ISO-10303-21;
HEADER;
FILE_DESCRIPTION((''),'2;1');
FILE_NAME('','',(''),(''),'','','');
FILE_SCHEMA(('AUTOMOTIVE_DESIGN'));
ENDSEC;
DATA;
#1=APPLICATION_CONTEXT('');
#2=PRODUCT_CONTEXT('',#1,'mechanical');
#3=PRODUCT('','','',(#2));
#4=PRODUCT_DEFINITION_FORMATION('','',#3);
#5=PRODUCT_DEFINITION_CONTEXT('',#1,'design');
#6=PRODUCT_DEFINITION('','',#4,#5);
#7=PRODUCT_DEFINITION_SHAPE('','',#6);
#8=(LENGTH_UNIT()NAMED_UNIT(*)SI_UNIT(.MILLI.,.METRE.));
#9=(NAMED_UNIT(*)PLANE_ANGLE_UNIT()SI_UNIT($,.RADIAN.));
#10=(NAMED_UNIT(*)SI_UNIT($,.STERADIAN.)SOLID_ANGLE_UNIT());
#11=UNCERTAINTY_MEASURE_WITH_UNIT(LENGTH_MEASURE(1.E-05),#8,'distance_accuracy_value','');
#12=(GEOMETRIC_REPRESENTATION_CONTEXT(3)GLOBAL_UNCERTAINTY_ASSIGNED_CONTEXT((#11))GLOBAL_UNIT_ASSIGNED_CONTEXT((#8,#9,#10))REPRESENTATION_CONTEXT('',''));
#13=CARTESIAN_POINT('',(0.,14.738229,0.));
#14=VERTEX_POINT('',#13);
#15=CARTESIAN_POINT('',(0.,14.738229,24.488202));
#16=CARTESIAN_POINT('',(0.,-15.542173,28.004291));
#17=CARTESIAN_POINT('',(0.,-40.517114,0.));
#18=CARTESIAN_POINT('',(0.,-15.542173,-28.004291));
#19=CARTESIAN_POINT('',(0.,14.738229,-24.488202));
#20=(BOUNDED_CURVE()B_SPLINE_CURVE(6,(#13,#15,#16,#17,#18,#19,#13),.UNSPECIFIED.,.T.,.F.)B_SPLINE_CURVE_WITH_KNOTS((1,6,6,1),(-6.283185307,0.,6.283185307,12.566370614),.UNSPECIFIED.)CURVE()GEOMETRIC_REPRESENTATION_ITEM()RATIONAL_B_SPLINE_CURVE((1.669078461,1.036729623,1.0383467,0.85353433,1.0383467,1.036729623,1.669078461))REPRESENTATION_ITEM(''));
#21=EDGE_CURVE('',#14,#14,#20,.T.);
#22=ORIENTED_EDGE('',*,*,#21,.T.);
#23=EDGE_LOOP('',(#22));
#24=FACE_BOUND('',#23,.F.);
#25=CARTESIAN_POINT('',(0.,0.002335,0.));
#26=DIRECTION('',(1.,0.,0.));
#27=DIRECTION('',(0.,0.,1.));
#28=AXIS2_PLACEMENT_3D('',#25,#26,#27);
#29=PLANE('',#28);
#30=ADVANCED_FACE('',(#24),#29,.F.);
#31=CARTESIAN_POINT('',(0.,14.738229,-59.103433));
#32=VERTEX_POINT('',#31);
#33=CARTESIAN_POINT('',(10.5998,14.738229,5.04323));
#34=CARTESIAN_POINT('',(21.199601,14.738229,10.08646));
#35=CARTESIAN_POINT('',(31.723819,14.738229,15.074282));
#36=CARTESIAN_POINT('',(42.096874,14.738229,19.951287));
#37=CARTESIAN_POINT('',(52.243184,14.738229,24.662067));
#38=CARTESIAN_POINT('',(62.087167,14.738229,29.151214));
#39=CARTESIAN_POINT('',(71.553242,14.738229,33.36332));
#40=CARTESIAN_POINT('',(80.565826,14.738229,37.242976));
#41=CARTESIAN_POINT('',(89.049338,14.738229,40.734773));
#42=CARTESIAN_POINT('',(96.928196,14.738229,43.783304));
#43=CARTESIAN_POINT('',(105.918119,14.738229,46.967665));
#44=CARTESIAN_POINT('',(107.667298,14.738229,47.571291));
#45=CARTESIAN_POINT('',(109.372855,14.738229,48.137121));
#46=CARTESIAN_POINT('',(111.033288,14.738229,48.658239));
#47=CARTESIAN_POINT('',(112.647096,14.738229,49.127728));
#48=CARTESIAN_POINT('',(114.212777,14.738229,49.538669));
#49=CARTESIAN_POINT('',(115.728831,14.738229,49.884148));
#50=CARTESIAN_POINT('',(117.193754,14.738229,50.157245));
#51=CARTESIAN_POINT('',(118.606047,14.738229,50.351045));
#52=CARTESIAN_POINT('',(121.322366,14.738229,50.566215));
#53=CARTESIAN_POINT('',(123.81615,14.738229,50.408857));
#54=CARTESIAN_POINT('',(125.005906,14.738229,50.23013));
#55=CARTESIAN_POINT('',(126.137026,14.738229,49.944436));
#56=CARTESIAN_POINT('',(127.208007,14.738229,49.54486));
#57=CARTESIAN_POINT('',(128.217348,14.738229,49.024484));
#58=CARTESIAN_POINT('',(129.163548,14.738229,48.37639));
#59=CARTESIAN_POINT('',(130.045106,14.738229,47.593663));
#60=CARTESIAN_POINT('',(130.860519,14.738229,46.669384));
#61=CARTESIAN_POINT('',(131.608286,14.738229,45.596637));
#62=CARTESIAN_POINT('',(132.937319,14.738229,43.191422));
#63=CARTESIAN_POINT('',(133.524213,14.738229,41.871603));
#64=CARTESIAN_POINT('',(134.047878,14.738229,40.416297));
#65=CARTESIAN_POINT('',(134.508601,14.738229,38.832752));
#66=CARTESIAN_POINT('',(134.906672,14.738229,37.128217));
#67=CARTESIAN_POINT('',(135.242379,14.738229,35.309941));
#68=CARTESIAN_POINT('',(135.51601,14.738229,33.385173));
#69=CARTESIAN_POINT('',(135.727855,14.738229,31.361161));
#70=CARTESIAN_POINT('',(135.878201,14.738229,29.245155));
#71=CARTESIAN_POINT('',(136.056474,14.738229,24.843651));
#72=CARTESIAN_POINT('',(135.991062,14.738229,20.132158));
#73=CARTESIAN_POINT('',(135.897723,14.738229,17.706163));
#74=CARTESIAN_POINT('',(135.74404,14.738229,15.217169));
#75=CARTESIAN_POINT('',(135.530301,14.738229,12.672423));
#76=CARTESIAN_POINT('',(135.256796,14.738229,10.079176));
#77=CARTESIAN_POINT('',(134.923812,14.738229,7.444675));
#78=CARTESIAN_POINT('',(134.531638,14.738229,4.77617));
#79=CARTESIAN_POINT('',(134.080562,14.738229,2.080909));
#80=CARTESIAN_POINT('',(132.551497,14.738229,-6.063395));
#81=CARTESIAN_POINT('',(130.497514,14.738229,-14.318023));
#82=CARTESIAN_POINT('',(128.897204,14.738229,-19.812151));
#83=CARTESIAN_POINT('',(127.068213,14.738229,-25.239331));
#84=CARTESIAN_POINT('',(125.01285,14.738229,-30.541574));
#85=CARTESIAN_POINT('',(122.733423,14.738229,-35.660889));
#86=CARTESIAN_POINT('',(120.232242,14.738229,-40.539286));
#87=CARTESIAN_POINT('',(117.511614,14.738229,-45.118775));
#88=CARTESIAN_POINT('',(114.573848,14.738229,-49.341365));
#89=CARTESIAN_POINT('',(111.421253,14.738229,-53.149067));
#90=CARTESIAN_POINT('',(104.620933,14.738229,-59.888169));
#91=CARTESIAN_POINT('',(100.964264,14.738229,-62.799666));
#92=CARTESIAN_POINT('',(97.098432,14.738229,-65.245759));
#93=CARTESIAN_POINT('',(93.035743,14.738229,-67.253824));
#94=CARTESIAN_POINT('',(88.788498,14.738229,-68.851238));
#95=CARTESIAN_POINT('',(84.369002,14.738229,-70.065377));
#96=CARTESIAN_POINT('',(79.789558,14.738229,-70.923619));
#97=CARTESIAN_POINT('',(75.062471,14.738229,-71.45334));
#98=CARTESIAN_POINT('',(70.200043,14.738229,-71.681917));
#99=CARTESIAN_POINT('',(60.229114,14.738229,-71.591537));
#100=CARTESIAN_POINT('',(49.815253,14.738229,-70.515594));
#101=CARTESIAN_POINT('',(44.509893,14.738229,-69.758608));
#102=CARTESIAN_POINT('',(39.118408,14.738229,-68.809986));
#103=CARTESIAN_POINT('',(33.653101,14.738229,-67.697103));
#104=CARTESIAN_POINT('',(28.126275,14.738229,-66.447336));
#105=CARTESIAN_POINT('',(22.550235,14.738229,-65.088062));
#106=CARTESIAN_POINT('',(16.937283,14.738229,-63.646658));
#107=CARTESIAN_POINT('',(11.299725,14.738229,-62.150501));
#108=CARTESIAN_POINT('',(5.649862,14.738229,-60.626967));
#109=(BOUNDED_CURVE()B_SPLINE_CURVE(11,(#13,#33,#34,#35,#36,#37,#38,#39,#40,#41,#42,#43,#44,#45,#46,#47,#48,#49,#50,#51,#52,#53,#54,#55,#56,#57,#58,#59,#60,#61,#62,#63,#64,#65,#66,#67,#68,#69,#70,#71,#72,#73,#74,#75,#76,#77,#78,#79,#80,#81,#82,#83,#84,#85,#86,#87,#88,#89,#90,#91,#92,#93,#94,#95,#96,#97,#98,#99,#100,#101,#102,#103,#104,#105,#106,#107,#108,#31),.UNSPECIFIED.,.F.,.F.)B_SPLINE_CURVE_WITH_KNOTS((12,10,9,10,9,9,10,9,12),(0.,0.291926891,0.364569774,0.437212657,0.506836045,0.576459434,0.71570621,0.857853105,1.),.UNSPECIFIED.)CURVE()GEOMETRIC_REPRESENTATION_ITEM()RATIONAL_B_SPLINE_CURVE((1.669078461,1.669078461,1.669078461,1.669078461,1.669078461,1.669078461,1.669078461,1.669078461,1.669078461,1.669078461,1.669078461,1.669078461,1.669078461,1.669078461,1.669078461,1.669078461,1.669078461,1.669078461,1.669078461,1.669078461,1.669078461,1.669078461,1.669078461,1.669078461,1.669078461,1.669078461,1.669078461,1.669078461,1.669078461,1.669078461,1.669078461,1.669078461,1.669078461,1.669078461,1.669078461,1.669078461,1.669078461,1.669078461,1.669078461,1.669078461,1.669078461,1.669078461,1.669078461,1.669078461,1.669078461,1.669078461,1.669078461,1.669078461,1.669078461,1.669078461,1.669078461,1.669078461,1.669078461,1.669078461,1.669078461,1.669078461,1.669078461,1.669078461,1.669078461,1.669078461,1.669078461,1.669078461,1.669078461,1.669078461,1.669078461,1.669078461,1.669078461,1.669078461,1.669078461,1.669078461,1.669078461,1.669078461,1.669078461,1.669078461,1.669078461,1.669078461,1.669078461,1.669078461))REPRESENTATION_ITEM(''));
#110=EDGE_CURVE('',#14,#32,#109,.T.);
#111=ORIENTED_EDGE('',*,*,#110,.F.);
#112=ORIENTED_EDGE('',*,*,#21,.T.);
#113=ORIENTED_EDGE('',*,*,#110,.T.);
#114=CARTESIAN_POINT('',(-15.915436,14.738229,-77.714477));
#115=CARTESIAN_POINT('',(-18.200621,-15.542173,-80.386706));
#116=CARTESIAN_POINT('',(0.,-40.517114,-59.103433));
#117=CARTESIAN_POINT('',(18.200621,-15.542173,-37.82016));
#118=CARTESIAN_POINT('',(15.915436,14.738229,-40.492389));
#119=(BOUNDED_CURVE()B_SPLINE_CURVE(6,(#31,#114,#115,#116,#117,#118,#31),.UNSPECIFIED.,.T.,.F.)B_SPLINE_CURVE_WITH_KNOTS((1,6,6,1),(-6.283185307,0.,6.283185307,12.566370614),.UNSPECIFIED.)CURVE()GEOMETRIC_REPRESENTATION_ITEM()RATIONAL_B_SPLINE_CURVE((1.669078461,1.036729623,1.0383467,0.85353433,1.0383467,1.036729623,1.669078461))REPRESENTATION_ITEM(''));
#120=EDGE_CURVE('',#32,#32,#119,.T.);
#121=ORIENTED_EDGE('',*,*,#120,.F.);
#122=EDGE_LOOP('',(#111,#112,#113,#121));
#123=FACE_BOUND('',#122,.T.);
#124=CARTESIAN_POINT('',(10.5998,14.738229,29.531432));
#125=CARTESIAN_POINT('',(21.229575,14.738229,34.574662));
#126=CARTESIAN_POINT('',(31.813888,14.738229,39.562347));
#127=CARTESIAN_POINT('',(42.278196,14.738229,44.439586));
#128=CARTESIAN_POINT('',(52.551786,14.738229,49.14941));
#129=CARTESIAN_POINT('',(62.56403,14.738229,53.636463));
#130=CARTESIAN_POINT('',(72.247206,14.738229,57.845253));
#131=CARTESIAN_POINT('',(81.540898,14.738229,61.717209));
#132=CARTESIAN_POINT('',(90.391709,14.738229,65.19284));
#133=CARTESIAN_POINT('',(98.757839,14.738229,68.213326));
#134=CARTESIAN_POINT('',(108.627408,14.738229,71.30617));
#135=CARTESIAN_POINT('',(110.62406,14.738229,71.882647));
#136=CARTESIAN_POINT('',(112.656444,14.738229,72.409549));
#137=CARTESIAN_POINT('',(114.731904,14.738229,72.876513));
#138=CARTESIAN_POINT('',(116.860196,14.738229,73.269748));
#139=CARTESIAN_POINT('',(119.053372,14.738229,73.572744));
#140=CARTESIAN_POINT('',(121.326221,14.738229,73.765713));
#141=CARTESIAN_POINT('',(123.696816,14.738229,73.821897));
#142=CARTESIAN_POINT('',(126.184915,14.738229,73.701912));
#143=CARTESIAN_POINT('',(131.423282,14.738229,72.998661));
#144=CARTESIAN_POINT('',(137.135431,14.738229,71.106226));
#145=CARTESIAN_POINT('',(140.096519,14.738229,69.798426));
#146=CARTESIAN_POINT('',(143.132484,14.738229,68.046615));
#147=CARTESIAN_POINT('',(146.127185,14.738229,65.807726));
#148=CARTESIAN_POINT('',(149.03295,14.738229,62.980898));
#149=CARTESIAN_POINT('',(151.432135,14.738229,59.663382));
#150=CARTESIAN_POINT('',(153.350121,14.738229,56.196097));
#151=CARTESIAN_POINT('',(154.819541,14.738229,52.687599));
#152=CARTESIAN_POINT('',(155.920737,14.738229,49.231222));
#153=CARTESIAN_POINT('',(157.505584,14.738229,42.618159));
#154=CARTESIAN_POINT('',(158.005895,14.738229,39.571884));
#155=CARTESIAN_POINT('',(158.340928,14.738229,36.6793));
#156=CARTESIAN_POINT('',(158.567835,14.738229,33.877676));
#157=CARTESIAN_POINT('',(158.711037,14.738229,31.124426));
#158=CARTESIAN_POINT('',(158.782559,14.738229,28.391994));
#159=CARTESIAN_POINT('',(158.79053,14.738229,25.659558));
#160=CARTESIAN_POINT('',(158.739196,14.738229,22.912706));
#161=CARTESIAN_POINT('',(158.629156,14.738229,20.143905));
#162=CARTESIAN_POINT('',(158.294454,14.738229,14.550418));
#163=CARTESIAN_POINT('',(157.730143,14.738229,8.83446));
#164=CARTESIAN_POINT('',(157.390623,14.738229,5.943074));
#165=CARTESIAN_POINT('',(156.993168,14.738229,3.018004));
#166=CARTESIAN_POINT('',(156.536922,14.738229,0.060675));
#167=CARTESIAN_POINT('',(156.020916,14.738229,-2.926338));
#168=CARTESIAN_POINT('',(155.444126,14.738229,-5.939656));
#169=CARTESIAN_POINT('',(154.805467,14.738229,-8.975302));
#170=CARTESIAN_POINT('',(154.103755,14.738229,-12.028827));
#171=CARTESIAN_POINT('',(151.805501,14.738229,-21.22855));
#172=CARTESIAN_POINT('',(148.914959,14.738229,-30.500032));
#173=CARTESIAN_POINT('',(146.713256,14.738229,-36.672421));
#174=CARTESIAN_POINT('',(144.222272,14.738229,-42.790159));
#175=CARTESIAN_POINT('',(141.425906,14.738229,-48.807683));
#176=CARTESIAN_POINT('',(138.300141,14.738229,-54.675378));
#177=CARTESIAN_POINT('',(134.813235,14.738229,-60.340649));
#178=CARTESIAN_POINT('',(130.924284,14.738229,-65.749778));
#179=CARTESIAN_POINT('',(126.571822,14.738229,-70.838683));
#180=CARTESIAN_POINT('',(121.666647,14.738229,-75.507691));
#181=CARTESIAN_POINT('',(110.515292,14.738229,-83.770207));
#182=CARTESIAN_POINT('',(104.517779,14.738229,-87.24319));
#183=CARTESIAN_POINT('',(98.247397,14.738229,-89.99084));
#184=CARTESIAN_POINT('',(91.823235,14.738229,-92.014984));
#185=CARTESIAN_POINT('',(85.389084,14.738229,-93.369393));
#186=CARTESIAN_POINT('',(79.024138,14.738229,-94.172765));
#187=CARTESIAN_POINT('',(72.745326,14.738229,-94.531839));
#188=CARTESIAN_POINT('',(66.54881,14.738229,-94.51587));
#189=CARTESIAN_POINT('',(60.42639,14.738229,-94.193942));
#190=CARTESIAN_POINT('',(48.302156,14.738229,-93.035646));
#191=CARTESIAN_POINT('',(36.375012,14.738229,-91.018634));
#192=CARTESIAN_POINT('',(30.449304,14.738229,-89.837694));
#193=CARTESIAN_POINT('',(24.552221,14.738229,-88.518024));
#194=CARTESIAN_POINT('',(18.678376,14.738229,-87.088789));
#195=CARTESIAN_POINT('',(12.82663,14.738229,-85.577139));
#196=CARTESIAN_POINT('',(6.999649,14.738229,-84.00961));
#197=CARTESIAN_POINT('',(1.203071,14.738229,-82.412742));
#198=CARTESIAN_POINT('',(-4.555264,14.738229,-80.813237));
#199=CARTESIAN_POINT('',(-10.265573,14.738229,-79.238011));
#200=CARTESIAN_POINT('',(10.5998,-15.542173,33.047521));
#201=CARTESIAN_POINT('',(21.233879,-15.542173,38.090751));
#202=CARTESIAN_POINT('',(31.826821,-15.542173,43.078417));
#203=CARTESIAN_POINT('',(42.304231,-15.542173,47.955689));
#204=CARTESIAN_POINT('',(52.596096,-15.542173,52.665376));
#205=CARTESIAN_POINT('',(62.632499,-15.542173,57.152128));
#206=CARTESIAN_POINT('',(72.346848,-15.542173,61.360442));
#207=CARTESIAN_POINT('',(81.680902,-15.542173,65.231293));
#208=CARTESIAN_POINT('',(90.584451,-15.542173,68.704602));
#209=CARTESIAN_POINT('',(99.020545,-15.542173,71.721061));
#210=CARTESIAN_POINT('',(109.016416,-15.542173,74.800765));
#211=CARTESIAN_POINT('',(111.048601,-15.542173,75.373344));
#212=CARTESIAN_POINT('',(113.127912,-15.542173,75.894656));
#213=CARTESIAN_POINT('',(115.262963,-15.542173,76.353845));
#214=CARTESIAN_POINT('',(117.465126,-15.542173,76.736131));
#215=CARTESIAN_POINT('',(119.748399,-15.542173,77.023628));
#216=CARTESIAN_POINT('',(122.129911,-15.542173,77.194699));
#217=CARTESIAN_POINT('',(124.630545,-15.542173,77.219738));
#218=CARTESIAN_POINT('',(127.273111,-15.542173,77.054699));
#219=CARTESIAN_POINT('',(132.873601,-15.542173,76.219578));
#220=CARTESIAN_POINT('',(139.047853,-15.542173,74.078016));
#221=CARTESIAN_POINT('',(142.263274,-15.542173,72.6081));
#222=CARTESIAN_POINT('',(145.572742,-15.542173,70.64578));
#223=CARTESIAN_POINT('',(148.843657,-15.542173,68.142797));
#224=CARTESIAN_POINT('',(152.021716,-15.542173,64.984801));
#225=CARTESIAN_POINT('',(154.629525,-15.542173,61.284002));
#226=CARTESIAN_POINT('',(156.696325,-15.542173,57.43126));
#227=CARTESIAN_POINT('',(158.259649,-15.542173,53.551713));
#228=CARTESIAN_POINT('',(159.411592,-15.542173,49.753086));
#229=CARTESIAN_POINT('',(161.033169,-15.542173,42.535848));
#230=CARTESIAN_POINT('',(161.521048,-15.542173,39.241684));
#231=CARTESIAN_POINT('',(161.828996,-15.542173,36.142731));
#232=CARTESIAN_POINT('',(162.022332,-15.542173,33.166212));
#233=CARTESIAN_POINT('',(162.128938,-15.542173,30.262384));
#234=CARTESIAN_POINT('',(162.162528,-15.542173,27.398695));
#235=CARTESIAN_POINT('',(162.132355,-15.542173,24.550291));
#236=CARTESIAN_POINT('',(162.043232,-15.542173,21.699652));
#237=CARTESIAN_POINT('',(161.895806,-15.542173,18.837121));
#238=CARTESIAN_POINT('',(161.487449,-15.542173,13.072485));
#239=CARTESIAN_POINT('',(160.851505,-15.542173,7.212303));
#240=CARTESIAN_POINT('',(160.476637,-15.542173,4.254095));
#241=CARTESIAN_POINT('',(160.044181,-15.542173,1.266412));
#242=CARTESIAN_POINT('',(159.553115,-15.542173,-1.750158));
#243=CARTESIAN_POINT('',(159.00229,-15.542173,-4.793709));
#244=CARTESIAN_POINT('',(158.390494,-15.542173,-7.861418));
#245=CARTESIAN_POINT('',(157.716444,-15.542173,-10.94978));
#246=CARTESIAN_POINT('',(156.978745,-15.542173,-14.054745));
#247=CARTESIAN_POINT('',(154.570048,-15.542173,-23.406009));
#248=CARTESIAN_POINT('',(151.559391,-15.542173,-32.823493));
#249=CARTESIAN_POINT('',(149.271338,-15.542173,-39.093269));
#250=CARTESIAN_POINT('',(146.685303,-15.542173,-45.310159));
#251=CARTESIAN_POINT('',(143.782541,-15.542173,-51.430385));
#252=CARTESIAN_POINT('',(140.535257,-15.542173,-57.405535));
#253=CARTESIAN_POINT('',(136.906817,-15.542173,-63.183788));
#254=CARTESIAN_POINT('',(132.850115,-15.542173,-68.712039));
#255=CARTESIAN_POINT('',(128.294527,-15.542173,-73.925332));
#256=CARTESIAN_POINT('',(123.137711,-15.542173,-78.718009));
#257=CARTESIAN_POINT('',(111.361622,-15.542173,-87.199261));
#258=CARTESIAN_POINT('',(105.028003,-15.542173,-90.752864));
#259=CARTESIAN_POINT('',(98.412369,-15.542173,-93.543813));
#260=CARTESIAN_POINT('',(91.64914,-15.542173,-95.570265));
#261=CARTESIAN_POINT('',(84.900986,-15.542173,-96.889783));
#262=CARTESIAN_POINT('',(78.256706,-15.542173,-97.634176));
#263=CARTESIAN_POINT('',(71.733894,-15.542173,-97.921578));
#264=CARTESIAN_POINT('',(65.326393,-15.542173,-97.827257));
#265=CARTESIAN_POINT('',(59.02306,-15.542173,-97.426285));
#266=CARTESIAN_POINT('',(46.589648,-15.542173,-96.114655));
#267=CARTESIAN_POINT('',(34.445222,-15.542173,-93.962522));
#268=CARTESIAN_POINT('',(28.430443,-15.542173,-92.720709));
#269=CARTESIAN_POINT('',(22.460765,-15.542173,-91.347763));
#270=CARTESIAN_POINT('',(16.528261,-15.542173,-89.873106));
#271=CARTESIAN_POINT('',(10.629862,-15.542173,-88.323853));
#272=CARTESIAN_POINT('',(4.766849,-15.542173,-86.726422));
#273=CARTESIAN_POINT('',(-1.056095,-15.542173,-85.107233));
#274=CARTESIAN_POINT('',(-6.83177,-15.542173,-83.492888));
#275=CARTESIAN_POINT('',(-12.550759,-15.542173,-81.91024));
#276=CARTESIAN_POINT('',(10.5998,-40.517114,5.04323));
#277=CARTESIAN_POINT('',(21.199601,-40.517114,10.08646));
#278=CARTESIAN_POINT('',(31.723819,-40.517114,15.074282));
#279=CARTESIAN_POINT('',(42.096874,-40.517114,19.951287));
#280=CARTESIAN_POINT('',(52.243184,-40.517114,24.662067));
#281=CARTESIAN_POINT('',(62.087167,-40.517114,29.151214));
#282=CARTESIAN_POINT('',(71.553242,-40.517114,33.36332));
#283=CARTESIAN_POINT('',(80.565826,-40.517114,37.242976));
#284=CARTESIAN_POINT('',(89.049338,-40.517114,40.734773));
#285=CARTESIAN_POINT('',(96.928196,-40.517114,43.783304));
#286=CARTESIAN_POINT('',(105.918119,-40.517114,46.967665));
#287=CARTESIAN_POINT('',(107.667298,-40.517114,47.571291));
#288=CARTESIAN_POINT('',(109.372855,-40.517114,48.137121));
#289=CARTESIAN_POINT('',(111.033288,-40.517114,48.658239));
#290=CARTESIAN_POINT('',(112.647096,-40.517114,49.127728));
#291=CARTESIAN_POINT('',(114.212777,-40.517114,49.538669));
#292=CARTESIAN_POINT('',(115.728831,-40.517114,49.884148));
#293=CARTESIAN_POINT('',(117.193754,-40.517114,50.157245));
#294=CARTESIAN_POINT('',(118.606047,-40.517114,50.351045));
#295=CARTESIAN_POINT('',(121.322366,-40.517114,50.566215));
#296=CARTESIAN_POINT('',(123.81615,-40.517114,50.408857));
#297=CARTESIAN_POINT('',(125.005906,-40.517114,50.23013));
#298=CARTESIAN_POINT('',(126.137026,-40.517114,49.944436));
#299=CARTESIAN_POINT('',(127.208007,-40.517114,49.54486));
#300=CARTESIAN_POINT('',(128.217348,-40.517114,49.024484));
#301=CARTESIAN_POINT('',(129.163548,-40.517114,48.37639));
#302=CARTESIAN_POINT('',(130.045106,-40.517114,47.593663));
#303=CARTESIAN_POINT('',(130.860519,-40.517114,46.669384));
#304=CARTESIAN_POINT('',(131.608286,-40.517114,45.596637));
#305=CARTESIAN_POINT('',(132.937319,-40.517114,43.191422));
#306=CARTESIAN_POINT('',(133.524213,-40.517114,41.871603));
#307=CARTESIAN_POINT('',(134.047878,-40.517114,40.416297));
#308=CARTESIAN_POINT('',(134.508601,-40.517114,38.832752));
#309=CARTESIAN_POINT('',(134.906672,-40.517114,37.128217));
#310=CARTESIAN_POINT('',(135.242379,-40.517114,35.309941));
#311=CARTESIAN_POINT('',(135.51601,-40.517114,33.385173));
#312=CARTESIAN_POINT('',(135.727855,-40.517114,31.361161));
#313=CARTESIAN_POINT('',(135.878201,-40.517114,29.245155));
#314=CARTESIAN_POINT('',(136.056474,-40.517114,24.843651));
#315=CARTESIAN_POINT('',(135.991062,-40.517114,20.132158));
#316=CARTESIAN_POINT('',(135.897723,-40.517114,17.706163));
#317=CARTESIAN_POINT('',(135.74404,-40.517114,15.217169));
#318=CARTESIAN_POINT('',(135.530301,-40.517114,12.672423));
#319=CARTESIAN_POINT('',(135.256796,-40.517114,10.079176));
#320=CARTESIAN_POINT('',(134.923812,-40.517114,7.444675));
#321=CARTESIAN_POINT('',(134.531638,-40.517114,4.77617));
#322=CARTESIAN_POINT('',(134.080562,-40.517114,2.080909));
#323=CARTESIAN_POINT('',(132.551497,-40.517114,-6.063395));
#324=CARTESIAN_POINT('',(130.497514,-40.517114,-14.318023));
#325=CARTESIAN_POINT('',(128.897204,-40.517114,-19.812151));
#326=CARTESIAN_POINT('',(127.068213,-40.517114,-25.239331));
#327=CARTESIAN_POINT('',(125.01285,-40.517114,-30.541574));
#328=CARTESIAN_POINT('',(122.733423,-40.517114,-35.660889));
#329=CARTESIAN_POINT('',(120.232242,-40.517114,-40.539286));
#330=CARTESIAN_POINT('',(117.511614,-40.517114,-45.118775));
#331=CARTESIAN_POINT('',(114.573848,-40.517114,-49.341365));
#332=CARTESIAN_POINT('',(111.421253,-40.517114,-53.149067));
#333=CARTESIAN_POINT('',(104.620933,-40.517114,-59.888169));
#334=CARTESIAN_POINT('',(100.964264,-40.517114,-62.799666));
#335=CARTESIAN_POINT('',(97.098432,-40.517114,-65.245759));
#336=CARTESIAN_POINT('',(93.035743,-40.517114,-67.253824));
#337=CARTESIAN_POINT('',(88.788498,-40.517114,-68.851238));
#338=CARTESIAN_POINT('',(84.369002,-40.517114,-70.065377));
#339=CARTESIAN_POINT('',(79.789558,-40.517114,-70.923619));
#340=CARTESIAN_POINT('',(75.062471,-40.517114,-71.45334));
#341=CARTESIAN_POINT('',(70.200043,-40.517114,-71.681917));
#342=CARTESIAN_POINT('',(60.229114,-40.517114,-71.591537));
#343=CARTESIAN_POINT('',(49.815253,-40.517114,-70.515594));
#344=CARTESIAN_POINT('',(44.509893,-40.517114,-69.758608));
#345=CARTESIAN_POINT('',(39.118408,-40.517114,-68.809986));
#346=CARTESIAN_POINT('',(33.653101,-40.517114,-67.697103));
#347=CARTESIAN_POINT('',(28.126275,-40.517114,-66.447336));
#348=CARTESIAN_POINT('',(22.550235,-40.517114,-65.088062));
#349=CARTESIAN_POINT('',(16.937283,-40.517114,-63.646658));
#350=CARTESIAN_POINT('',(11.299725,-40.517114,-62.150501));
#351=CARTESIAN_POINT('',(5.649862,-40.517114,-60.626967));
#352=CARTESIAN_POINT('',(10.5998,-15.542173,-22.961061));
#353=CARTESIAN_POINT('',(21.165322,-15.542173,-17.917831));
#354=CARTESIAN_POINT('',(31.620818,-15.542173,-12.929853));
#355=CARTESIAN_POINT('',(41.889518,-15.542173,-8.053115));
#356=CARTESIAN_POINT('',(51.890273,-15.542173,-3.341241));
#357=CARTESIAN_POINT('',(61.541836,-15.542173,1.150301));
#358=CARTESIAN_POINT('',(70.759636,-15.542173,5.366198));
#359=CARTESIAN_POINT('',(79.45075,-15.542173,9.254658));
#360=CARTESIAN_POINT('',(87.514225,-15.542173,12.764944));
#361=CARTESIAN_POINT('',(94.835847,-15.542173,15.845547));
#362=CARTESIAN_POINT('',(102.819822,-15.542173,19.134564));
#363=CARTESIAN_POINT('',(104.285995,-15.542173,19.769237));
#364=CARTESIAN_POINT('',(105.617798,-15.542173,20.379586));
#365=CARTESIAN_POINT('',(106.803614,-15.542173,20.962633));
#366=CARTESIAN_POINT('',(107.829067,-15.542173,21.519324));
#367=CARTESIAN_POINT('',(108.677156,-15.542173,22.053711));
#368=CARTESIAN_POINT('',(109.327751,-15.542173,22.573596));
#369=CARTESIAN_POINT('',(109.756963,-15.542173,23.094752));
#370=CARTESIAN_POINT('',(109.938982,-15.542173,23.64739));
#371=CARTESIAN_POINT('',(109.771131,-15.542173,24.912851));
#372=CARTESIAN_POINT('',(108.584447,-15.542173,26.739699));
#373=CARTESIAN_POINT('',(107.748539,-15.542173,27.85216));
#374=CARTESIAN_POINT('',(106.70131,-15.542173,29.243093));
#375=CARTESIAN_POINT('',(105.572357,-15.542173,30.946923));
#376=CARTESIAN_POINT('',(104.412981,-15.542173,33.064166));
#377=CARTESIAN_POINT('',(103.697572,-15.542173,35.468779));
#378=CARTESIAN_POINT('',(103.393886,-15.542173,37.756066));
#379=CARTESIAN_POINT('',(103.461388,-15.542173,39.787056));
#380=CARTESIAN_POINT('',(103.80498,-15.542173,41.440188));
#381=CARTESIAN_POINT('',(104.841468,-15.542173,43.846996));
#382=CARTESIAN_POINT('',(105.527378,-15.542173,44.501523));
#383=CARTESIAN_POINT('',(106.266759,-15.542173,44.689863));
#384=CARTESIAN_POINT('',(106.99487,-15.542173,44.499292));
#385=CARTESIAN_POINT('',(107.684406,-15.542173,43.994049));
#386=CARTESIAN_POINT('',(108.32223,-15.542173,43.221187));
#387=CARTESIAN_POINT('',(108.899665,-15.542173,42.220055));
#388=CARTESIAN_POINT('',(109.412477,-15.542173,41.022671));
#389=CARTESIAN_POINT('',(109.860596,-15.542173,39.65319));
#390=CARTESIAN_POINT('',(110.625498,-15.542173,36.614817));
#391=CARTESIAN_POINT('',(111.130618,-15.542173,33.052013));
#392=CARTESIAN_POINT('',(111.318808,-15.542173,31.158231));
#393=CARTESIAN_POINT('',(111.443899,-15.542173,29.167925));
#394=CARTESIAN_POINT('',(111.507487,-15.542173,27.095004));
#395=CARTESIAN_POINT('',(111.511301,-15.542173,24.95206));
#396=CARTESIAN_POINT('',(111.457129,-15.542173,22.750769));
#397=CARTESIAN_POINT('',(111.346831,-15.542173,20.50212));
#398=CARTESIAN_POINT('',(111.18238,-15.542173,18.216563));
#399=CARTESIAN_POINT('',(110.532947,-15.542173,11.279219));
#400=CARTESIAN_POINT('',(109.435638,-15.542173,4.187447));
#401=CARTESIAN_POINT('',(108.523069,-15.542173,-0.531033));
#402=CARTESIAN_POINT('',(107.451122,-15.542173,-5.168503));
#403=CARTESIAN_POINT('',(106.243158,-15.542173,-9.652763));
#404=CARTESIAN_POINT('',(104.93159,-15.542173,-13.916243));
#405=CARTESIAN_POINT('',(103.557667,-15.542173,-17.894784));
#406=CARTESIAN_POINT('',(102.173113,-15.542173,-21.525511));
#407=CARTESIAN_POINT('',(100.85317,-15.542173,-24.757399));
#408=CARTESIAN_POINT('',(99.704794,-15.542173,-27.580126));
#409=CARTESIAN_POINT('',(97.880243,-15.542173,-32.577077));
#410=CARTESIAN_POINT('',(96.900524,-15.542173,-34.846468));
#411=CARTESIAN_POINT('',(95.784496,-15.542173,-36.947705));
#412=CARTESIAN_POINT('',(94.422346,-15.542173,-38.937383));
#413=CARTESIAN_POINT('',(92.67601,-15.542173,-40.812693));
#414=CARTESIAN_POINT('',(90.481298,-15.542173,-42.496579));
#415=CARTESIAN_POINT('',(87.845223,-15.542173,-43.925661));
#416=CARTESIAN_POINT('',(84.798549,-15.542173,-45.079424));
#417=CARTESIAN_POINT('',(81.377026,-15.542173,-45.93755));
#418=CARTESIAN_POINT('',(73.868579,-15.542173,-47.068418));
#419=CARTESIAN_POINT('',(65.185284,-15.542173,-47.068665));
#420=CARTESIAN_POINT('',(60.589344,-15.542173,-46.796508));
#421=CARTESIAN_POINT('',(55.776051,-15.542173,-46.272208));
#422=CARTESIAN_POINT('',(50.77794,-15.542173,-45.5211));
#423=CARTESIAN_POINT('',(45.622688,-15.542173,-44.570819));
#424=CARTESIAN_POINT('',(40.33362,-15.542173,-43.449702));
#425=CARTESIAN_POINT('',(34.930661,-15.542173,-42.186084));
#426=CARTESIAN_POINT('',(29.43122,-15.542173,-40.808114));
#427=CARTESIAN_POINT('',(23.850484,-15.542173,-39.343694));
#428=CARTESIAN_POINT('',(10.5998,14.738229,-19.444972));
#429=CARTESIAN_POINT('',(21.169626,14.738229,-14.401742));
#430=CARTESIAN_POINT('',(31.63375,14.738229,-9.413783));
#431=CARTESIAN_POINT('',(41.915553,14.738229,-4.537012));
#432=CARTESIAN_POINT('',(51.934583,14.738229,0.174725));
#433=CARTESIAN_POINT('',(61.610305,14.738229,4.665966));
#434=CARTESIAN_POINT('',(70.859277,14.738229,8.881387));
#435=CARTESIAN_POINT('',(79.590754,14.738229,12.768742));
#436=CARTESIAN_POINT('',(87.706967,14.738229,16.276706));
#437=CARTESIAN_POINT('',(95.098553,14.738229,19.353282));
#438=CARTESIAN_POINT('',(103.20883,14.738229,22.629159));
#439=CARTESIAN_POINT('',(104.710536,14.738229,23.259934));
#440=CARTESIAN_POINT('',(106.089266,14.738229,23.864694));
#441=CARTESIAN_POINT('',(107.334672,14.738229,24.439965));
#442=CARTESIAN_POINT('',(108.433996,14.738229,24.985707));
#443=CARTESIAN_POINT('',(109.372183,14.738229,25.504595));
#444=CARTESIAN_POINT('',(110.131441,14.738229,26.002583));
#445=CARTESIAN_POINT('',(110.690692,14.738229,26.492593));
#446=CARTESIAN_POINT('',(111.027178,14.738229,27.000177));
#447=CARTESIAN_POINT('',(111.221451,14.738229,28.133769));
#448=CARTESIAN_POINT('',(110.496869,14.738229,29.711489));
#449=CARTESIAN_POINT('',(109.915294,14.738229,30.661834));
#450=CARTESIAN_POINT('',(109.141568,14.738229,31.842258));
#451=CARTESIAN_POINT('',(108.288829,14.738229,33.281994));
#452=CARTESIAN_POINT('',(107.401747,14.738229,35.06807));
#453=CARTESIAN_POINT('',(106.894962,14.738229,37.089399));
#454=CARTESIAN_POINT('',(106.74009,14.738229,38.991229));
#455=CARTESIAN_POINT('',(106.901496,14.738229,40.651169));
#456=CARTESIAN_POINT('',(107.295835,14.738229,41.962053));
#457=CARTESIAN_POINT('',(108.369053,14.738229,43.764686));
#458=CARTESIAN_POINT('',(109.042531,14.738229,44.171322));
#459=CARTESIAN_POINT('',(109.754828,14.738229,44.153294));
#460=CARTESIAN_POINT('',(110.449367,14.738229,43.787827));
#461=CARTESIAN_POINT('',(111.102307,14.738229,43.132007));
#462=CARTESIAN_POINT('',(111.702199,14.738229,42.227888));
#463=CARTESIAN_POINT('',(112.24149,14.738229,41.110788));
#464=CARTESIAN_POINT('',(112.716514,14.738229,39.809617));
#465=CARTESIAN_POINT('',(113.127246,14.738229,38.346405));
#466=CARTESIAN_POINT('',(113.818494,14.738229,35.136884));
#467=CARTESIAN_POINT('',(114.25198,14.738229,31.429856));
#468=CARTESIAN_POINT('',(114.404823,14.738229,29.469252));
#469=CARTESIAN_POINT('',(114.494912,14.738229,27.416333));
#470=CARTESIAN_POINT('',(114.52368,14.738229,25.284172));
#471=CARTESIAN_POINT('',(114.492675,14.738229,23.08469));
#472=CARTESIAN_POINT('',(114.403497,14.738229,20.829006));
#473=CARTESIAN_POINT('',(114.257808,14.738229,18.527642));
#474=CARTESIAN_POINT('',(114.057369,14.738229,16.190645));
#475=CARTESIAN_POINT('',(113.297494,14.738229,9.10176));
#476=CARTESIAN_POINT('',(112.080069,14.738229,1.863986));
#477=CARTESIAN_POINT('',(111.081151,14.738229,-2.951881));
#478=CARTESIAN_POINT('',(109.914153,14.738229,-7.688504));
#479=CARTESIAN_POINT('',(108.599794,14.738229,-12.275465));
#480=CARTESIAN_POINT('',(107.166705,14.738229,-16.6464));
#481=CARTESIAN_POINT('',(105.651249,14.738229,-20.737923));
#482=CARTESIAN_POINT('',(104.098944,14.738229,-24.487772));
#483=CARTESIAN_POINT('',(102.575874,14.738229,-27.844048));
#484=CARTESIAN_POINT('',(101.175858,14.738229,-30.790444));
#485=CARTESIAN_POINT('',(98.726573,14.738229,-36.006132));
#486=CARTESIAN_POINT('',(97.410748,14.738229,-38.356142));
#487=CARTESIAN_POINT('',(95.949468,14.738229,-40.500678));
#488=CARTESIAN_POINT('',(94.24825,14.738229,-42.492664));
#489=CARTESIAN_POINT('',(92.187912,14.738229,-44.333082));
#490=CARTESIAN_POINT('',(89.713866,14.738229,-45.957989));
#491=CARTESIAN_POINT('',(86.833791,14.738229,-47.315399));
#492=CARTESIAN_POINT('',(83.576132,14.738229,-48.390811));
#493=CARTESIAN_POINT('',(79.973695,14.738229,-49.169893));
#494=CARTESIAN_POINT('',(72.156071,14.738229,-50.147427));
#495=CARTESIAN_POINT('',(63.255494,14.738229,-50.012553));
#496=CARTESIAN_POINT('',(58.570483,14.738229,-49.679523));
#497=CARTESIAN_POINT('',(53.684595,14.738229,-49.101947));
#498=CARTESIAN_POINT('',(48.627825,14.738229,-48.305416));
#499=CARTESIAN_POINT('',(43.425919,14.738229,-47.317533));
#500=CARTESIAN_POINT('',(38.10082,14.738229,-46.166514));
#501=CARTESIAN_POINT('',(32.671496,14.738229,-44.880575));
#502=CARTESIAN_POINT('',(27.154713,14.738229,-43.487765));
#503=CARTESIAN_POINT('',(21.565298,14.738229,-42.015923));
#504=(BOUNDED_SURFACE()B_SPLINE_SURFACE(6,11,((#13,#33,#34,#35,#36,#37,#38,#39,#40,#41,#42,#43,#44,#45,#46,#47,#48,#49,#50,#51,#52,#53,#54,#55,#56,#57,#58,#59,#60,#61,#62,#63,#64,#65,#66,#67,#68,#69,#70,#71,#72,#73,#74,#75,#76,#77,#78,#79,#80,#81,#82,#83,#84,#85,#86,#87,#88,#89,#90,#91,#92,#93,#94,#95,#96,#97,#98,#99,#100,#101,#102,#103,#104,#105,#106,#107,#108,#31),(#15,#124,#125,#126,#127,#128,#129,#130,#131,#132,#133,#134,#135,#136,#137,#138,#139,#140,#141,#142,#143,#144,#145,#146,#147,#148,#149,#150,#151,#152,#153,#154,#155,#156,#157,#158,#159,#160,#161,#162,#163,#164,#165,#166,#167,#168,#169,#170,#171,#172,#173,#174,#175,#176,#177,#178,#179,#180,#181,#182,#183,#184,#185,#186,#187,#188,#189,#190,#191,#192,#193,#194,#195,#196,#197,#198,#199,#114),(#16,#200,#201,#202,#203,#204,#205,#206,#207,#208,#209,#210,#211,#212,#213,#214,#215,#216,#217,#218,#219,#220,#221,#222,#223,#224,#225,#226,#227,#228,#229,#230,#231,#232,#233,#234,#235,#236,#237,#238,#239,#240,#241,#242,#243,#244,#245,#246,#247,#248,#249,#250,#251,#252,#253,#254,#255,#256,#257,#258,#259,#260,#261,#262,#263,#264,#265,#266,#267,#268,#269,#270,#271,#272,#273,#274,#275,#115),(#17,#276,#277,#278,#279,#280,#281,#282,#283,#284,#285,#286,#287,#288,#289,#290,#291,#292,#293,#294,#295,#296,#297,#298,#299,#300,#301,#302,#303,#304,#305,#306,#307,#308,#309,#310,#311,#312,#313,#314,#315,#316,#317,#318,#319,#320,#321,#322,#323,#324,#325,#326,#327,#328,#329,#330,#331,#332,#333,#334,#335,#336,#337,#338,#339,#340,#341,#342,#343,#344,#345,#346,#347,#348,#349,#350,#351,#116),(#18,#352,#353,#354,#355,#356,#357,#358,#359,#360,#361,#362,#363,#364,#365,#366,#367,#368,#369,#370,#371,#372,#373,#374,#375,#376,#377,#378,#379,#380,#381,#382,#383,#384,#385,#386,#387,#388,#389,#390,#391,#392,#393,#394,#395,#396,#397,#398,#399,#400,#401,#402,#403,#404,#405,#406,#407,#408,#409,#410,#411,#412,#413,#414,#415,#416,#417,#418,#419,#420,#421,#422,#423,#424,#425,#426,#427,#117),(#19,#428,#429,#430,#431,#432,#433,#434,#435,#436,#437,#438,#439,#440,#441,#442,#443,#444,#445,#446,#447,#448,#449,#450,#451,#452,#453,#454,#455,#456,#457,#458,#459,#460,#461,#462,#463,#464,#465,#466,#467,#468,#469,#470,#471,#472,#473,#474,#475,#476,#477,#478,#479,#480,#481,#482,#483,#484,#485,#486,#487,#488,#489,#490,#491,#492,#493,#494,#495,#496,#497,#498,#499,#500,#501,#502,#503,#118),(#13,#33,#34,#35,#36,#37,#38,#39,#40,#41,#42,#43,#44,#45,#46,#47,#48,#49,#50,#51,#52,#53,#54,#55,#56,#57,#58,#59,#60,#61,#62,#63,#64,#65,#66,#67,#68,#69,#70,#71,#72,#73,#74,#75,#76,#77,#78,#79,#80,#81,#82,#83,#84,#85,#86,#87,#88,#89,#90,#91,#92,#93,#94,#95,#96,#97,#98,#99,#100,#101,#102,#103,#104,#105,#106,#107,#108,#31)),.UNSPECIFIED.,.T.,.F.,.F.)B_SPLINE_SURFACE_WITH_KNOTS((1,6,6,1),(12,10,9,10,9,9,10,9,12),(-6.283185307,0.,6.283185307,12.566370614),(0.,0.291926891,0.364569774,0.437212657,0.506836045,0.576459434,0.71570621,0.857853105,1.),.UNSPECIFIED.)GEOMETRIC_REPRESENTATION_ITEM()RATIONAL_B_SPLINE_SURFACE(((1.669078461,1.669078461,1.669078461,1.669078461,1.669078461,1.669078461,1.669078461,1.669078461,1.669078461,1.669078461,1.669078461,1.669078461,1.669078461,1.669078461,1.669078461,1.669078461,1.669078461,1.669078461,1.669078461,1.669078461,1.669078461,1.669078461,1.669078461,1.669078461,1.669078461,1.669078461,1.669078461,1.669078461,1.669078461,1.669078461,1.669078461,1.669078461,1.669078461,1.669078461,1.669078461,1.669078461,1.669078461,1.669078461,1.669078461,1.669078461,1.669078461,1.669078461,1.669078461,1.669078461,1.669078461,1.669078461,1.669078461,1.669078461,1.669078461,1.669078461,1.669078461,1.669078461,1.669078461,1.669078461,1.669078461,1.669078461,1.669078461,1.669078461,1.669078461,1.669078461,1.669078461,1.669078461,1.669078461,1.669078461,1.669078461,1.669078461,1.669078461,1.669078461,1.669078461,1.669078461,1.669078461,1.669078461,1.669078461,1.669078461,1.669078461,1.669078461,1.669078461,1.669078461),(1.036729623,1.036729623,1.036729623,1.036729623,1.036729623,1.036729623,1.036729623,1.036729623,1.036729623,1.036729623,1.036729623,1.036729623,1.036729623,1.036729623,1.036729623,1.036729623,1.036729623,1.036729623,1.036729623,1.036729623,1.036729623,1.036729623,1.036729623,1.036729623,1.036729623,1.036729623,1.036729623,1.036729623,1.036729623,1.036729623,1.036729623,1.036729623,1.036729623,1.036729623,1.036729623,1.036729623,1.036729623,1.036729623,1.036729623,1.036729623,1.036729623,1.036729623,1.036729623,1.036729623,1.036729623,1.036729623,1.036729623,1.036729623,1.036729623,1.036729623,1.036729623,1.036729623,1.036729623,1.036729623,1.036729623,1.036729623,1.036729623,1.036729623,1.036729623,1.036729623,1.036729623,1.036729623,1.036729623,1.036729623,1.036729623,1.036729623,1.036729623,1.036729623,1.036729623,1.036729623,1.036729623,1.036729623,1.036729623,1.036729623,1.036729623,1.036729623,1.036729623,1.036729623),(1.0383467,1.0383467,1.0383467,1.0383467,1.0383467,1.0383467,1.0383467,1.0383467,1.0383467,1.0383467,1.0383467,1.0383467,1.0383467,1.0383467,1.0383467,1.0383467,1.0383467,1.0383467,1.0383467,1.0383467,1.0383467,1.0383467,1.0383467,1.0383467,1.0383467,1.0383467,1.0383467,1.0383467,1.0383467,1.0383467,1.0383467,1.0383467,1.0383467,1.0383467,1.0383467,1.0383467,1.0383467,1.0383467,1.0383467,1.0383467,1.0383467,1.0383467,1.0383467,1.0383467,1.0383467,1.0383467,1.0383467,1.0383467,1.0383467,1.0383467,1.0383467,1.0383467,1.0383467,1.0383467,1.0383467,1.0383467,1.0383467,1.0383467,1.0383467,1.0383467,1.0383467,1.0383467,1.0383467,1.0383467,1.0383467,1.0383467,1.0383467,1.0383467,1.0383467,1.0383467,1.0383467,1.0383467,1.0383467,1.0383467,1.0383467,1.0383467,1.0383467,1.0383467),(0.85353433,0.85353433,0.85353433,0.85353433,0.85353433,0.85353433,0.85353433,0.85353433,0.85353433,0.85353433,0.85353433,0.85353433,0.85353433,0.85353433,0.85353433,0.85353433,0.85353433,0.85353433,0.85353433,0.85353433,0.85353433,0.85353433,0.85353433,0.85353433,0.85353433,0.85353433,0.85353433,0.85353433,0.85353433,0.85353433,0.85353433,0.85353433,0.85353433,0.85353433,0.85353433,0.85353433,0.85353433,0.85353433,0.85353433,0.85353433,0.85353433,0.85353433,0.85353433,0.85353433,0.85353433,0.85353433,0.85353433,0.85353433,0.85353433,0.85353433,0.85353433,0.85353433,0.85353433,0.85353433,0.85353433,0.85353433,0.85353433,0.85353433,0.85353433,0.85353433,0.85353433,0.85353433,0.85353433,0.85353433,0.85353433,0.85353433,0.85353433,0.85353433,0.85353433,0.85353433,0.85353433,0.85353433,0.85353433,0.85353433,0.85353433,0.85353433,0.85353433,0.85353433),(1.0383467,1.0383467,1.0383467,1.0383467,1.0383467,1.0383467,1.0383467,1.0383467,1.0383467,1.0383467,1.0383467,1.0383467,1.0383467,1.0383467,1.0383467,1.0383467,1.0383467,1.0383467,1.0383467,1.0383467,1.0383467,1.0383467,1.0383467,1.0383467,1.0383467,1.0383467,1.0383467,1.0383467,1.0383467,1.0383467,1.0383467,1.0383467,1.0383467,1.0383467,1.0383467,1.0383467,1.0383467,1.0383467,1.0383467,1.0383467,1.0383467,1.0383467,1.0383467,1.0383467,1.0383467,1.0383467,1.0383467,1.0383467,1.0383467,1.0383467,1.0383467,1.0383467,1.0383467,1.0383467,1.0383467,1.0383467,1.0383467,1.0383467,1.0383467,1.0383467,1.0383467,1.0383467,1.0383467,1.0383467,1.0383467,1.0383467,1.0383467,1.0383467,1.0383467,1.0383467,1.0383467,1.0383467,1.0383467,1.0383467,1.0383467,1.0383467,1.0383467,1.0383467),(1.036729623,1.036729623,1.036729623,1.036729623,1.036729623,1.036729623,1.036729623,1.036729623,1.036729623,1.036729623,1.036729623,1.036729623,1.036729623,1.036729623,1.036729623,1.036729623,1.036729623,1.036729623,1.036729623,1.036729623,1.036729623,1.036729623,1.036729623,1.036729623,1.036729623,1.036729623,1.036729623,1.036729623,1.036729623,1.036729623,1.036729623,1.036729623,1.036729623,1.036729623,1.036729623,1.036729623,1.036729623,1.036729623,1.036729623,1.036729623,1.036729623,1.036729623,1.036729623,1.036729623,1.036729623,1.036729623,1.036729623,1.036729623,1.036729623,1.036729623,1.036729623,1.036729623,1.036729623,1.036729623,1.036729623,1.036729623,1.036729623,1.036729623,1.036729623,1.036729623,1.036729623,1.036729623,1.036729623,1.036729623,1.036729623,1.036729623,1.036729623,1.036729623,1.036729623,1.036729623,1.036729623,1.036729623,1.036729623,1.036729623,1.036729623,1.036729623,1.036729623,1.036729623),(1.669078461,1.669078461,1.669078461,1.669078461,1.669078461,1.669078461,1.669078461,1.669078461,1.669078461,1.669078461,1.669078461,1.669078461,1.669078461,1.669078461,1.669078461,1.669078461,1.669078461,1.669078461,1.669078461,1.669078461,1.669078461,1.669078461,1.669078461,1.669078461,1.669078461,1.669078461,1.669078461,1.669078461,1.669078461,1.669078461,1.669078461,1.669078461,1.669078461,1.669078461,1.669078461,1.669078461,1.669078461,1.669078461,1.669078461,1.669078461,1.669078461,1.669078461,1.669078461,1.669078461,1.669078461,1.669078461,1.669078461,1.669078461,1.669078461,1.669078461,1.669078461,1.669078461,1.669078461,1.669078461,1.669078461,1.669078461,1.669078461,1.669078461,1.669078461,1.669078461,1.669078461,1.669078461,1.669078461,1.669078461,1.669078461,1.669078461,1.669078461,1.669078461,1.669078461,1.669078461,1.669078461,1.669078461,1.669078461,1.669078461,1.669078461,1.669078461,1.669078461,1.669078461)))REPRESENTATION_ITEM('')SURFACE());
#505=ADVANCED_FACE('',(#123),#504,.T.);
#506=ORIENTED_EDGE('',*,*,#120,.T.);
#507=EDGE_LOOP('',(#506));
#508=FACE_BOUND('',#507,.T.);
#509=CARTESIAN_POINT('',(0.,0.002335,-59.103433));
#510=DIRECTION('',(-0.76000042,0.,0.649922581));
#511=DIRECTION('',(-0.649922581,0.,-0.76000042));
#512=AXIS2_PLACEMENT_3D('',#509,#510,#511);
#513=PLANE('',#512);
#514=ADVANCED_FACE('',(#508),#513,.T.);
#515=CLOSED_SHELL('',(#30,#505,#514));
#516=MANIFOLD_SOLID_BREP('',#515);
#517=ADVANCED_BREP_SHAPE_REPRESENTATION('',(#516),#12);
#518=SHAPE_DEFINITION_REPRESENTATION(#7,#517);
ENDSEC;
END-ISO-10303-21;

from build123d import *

# Parameters (mm, degrees)
F0_R = 14.7382288907


with BuildPart() as f2:
    # F2: sweep along a path in F1
    with BuildLine(Plane.XZ) as f2_path:
        add(Plane.XZ * Edge.make_bspline(
            [(0, 0), (38.8659345656, 18.4918437033), (97.0746130298, 46.1866822906), (146.5697730261, 57.9534622183), (123.4516573994, -92.3932360529), (41.4323235612, -70.2760160494), (0, -59.1034330428)],
            knots=[0, 0, 0, 0, 0.2919268909, 0.4372126573, 0.7157062099, 1, 1, 1, 1], degree=3))
    # F0 (on Right) → F2 (sweep)
    with BuildSketch(Plane.YZ):
        Circle(F0_R)
    sweep(path=f2_path.line)


solid = f2.part
